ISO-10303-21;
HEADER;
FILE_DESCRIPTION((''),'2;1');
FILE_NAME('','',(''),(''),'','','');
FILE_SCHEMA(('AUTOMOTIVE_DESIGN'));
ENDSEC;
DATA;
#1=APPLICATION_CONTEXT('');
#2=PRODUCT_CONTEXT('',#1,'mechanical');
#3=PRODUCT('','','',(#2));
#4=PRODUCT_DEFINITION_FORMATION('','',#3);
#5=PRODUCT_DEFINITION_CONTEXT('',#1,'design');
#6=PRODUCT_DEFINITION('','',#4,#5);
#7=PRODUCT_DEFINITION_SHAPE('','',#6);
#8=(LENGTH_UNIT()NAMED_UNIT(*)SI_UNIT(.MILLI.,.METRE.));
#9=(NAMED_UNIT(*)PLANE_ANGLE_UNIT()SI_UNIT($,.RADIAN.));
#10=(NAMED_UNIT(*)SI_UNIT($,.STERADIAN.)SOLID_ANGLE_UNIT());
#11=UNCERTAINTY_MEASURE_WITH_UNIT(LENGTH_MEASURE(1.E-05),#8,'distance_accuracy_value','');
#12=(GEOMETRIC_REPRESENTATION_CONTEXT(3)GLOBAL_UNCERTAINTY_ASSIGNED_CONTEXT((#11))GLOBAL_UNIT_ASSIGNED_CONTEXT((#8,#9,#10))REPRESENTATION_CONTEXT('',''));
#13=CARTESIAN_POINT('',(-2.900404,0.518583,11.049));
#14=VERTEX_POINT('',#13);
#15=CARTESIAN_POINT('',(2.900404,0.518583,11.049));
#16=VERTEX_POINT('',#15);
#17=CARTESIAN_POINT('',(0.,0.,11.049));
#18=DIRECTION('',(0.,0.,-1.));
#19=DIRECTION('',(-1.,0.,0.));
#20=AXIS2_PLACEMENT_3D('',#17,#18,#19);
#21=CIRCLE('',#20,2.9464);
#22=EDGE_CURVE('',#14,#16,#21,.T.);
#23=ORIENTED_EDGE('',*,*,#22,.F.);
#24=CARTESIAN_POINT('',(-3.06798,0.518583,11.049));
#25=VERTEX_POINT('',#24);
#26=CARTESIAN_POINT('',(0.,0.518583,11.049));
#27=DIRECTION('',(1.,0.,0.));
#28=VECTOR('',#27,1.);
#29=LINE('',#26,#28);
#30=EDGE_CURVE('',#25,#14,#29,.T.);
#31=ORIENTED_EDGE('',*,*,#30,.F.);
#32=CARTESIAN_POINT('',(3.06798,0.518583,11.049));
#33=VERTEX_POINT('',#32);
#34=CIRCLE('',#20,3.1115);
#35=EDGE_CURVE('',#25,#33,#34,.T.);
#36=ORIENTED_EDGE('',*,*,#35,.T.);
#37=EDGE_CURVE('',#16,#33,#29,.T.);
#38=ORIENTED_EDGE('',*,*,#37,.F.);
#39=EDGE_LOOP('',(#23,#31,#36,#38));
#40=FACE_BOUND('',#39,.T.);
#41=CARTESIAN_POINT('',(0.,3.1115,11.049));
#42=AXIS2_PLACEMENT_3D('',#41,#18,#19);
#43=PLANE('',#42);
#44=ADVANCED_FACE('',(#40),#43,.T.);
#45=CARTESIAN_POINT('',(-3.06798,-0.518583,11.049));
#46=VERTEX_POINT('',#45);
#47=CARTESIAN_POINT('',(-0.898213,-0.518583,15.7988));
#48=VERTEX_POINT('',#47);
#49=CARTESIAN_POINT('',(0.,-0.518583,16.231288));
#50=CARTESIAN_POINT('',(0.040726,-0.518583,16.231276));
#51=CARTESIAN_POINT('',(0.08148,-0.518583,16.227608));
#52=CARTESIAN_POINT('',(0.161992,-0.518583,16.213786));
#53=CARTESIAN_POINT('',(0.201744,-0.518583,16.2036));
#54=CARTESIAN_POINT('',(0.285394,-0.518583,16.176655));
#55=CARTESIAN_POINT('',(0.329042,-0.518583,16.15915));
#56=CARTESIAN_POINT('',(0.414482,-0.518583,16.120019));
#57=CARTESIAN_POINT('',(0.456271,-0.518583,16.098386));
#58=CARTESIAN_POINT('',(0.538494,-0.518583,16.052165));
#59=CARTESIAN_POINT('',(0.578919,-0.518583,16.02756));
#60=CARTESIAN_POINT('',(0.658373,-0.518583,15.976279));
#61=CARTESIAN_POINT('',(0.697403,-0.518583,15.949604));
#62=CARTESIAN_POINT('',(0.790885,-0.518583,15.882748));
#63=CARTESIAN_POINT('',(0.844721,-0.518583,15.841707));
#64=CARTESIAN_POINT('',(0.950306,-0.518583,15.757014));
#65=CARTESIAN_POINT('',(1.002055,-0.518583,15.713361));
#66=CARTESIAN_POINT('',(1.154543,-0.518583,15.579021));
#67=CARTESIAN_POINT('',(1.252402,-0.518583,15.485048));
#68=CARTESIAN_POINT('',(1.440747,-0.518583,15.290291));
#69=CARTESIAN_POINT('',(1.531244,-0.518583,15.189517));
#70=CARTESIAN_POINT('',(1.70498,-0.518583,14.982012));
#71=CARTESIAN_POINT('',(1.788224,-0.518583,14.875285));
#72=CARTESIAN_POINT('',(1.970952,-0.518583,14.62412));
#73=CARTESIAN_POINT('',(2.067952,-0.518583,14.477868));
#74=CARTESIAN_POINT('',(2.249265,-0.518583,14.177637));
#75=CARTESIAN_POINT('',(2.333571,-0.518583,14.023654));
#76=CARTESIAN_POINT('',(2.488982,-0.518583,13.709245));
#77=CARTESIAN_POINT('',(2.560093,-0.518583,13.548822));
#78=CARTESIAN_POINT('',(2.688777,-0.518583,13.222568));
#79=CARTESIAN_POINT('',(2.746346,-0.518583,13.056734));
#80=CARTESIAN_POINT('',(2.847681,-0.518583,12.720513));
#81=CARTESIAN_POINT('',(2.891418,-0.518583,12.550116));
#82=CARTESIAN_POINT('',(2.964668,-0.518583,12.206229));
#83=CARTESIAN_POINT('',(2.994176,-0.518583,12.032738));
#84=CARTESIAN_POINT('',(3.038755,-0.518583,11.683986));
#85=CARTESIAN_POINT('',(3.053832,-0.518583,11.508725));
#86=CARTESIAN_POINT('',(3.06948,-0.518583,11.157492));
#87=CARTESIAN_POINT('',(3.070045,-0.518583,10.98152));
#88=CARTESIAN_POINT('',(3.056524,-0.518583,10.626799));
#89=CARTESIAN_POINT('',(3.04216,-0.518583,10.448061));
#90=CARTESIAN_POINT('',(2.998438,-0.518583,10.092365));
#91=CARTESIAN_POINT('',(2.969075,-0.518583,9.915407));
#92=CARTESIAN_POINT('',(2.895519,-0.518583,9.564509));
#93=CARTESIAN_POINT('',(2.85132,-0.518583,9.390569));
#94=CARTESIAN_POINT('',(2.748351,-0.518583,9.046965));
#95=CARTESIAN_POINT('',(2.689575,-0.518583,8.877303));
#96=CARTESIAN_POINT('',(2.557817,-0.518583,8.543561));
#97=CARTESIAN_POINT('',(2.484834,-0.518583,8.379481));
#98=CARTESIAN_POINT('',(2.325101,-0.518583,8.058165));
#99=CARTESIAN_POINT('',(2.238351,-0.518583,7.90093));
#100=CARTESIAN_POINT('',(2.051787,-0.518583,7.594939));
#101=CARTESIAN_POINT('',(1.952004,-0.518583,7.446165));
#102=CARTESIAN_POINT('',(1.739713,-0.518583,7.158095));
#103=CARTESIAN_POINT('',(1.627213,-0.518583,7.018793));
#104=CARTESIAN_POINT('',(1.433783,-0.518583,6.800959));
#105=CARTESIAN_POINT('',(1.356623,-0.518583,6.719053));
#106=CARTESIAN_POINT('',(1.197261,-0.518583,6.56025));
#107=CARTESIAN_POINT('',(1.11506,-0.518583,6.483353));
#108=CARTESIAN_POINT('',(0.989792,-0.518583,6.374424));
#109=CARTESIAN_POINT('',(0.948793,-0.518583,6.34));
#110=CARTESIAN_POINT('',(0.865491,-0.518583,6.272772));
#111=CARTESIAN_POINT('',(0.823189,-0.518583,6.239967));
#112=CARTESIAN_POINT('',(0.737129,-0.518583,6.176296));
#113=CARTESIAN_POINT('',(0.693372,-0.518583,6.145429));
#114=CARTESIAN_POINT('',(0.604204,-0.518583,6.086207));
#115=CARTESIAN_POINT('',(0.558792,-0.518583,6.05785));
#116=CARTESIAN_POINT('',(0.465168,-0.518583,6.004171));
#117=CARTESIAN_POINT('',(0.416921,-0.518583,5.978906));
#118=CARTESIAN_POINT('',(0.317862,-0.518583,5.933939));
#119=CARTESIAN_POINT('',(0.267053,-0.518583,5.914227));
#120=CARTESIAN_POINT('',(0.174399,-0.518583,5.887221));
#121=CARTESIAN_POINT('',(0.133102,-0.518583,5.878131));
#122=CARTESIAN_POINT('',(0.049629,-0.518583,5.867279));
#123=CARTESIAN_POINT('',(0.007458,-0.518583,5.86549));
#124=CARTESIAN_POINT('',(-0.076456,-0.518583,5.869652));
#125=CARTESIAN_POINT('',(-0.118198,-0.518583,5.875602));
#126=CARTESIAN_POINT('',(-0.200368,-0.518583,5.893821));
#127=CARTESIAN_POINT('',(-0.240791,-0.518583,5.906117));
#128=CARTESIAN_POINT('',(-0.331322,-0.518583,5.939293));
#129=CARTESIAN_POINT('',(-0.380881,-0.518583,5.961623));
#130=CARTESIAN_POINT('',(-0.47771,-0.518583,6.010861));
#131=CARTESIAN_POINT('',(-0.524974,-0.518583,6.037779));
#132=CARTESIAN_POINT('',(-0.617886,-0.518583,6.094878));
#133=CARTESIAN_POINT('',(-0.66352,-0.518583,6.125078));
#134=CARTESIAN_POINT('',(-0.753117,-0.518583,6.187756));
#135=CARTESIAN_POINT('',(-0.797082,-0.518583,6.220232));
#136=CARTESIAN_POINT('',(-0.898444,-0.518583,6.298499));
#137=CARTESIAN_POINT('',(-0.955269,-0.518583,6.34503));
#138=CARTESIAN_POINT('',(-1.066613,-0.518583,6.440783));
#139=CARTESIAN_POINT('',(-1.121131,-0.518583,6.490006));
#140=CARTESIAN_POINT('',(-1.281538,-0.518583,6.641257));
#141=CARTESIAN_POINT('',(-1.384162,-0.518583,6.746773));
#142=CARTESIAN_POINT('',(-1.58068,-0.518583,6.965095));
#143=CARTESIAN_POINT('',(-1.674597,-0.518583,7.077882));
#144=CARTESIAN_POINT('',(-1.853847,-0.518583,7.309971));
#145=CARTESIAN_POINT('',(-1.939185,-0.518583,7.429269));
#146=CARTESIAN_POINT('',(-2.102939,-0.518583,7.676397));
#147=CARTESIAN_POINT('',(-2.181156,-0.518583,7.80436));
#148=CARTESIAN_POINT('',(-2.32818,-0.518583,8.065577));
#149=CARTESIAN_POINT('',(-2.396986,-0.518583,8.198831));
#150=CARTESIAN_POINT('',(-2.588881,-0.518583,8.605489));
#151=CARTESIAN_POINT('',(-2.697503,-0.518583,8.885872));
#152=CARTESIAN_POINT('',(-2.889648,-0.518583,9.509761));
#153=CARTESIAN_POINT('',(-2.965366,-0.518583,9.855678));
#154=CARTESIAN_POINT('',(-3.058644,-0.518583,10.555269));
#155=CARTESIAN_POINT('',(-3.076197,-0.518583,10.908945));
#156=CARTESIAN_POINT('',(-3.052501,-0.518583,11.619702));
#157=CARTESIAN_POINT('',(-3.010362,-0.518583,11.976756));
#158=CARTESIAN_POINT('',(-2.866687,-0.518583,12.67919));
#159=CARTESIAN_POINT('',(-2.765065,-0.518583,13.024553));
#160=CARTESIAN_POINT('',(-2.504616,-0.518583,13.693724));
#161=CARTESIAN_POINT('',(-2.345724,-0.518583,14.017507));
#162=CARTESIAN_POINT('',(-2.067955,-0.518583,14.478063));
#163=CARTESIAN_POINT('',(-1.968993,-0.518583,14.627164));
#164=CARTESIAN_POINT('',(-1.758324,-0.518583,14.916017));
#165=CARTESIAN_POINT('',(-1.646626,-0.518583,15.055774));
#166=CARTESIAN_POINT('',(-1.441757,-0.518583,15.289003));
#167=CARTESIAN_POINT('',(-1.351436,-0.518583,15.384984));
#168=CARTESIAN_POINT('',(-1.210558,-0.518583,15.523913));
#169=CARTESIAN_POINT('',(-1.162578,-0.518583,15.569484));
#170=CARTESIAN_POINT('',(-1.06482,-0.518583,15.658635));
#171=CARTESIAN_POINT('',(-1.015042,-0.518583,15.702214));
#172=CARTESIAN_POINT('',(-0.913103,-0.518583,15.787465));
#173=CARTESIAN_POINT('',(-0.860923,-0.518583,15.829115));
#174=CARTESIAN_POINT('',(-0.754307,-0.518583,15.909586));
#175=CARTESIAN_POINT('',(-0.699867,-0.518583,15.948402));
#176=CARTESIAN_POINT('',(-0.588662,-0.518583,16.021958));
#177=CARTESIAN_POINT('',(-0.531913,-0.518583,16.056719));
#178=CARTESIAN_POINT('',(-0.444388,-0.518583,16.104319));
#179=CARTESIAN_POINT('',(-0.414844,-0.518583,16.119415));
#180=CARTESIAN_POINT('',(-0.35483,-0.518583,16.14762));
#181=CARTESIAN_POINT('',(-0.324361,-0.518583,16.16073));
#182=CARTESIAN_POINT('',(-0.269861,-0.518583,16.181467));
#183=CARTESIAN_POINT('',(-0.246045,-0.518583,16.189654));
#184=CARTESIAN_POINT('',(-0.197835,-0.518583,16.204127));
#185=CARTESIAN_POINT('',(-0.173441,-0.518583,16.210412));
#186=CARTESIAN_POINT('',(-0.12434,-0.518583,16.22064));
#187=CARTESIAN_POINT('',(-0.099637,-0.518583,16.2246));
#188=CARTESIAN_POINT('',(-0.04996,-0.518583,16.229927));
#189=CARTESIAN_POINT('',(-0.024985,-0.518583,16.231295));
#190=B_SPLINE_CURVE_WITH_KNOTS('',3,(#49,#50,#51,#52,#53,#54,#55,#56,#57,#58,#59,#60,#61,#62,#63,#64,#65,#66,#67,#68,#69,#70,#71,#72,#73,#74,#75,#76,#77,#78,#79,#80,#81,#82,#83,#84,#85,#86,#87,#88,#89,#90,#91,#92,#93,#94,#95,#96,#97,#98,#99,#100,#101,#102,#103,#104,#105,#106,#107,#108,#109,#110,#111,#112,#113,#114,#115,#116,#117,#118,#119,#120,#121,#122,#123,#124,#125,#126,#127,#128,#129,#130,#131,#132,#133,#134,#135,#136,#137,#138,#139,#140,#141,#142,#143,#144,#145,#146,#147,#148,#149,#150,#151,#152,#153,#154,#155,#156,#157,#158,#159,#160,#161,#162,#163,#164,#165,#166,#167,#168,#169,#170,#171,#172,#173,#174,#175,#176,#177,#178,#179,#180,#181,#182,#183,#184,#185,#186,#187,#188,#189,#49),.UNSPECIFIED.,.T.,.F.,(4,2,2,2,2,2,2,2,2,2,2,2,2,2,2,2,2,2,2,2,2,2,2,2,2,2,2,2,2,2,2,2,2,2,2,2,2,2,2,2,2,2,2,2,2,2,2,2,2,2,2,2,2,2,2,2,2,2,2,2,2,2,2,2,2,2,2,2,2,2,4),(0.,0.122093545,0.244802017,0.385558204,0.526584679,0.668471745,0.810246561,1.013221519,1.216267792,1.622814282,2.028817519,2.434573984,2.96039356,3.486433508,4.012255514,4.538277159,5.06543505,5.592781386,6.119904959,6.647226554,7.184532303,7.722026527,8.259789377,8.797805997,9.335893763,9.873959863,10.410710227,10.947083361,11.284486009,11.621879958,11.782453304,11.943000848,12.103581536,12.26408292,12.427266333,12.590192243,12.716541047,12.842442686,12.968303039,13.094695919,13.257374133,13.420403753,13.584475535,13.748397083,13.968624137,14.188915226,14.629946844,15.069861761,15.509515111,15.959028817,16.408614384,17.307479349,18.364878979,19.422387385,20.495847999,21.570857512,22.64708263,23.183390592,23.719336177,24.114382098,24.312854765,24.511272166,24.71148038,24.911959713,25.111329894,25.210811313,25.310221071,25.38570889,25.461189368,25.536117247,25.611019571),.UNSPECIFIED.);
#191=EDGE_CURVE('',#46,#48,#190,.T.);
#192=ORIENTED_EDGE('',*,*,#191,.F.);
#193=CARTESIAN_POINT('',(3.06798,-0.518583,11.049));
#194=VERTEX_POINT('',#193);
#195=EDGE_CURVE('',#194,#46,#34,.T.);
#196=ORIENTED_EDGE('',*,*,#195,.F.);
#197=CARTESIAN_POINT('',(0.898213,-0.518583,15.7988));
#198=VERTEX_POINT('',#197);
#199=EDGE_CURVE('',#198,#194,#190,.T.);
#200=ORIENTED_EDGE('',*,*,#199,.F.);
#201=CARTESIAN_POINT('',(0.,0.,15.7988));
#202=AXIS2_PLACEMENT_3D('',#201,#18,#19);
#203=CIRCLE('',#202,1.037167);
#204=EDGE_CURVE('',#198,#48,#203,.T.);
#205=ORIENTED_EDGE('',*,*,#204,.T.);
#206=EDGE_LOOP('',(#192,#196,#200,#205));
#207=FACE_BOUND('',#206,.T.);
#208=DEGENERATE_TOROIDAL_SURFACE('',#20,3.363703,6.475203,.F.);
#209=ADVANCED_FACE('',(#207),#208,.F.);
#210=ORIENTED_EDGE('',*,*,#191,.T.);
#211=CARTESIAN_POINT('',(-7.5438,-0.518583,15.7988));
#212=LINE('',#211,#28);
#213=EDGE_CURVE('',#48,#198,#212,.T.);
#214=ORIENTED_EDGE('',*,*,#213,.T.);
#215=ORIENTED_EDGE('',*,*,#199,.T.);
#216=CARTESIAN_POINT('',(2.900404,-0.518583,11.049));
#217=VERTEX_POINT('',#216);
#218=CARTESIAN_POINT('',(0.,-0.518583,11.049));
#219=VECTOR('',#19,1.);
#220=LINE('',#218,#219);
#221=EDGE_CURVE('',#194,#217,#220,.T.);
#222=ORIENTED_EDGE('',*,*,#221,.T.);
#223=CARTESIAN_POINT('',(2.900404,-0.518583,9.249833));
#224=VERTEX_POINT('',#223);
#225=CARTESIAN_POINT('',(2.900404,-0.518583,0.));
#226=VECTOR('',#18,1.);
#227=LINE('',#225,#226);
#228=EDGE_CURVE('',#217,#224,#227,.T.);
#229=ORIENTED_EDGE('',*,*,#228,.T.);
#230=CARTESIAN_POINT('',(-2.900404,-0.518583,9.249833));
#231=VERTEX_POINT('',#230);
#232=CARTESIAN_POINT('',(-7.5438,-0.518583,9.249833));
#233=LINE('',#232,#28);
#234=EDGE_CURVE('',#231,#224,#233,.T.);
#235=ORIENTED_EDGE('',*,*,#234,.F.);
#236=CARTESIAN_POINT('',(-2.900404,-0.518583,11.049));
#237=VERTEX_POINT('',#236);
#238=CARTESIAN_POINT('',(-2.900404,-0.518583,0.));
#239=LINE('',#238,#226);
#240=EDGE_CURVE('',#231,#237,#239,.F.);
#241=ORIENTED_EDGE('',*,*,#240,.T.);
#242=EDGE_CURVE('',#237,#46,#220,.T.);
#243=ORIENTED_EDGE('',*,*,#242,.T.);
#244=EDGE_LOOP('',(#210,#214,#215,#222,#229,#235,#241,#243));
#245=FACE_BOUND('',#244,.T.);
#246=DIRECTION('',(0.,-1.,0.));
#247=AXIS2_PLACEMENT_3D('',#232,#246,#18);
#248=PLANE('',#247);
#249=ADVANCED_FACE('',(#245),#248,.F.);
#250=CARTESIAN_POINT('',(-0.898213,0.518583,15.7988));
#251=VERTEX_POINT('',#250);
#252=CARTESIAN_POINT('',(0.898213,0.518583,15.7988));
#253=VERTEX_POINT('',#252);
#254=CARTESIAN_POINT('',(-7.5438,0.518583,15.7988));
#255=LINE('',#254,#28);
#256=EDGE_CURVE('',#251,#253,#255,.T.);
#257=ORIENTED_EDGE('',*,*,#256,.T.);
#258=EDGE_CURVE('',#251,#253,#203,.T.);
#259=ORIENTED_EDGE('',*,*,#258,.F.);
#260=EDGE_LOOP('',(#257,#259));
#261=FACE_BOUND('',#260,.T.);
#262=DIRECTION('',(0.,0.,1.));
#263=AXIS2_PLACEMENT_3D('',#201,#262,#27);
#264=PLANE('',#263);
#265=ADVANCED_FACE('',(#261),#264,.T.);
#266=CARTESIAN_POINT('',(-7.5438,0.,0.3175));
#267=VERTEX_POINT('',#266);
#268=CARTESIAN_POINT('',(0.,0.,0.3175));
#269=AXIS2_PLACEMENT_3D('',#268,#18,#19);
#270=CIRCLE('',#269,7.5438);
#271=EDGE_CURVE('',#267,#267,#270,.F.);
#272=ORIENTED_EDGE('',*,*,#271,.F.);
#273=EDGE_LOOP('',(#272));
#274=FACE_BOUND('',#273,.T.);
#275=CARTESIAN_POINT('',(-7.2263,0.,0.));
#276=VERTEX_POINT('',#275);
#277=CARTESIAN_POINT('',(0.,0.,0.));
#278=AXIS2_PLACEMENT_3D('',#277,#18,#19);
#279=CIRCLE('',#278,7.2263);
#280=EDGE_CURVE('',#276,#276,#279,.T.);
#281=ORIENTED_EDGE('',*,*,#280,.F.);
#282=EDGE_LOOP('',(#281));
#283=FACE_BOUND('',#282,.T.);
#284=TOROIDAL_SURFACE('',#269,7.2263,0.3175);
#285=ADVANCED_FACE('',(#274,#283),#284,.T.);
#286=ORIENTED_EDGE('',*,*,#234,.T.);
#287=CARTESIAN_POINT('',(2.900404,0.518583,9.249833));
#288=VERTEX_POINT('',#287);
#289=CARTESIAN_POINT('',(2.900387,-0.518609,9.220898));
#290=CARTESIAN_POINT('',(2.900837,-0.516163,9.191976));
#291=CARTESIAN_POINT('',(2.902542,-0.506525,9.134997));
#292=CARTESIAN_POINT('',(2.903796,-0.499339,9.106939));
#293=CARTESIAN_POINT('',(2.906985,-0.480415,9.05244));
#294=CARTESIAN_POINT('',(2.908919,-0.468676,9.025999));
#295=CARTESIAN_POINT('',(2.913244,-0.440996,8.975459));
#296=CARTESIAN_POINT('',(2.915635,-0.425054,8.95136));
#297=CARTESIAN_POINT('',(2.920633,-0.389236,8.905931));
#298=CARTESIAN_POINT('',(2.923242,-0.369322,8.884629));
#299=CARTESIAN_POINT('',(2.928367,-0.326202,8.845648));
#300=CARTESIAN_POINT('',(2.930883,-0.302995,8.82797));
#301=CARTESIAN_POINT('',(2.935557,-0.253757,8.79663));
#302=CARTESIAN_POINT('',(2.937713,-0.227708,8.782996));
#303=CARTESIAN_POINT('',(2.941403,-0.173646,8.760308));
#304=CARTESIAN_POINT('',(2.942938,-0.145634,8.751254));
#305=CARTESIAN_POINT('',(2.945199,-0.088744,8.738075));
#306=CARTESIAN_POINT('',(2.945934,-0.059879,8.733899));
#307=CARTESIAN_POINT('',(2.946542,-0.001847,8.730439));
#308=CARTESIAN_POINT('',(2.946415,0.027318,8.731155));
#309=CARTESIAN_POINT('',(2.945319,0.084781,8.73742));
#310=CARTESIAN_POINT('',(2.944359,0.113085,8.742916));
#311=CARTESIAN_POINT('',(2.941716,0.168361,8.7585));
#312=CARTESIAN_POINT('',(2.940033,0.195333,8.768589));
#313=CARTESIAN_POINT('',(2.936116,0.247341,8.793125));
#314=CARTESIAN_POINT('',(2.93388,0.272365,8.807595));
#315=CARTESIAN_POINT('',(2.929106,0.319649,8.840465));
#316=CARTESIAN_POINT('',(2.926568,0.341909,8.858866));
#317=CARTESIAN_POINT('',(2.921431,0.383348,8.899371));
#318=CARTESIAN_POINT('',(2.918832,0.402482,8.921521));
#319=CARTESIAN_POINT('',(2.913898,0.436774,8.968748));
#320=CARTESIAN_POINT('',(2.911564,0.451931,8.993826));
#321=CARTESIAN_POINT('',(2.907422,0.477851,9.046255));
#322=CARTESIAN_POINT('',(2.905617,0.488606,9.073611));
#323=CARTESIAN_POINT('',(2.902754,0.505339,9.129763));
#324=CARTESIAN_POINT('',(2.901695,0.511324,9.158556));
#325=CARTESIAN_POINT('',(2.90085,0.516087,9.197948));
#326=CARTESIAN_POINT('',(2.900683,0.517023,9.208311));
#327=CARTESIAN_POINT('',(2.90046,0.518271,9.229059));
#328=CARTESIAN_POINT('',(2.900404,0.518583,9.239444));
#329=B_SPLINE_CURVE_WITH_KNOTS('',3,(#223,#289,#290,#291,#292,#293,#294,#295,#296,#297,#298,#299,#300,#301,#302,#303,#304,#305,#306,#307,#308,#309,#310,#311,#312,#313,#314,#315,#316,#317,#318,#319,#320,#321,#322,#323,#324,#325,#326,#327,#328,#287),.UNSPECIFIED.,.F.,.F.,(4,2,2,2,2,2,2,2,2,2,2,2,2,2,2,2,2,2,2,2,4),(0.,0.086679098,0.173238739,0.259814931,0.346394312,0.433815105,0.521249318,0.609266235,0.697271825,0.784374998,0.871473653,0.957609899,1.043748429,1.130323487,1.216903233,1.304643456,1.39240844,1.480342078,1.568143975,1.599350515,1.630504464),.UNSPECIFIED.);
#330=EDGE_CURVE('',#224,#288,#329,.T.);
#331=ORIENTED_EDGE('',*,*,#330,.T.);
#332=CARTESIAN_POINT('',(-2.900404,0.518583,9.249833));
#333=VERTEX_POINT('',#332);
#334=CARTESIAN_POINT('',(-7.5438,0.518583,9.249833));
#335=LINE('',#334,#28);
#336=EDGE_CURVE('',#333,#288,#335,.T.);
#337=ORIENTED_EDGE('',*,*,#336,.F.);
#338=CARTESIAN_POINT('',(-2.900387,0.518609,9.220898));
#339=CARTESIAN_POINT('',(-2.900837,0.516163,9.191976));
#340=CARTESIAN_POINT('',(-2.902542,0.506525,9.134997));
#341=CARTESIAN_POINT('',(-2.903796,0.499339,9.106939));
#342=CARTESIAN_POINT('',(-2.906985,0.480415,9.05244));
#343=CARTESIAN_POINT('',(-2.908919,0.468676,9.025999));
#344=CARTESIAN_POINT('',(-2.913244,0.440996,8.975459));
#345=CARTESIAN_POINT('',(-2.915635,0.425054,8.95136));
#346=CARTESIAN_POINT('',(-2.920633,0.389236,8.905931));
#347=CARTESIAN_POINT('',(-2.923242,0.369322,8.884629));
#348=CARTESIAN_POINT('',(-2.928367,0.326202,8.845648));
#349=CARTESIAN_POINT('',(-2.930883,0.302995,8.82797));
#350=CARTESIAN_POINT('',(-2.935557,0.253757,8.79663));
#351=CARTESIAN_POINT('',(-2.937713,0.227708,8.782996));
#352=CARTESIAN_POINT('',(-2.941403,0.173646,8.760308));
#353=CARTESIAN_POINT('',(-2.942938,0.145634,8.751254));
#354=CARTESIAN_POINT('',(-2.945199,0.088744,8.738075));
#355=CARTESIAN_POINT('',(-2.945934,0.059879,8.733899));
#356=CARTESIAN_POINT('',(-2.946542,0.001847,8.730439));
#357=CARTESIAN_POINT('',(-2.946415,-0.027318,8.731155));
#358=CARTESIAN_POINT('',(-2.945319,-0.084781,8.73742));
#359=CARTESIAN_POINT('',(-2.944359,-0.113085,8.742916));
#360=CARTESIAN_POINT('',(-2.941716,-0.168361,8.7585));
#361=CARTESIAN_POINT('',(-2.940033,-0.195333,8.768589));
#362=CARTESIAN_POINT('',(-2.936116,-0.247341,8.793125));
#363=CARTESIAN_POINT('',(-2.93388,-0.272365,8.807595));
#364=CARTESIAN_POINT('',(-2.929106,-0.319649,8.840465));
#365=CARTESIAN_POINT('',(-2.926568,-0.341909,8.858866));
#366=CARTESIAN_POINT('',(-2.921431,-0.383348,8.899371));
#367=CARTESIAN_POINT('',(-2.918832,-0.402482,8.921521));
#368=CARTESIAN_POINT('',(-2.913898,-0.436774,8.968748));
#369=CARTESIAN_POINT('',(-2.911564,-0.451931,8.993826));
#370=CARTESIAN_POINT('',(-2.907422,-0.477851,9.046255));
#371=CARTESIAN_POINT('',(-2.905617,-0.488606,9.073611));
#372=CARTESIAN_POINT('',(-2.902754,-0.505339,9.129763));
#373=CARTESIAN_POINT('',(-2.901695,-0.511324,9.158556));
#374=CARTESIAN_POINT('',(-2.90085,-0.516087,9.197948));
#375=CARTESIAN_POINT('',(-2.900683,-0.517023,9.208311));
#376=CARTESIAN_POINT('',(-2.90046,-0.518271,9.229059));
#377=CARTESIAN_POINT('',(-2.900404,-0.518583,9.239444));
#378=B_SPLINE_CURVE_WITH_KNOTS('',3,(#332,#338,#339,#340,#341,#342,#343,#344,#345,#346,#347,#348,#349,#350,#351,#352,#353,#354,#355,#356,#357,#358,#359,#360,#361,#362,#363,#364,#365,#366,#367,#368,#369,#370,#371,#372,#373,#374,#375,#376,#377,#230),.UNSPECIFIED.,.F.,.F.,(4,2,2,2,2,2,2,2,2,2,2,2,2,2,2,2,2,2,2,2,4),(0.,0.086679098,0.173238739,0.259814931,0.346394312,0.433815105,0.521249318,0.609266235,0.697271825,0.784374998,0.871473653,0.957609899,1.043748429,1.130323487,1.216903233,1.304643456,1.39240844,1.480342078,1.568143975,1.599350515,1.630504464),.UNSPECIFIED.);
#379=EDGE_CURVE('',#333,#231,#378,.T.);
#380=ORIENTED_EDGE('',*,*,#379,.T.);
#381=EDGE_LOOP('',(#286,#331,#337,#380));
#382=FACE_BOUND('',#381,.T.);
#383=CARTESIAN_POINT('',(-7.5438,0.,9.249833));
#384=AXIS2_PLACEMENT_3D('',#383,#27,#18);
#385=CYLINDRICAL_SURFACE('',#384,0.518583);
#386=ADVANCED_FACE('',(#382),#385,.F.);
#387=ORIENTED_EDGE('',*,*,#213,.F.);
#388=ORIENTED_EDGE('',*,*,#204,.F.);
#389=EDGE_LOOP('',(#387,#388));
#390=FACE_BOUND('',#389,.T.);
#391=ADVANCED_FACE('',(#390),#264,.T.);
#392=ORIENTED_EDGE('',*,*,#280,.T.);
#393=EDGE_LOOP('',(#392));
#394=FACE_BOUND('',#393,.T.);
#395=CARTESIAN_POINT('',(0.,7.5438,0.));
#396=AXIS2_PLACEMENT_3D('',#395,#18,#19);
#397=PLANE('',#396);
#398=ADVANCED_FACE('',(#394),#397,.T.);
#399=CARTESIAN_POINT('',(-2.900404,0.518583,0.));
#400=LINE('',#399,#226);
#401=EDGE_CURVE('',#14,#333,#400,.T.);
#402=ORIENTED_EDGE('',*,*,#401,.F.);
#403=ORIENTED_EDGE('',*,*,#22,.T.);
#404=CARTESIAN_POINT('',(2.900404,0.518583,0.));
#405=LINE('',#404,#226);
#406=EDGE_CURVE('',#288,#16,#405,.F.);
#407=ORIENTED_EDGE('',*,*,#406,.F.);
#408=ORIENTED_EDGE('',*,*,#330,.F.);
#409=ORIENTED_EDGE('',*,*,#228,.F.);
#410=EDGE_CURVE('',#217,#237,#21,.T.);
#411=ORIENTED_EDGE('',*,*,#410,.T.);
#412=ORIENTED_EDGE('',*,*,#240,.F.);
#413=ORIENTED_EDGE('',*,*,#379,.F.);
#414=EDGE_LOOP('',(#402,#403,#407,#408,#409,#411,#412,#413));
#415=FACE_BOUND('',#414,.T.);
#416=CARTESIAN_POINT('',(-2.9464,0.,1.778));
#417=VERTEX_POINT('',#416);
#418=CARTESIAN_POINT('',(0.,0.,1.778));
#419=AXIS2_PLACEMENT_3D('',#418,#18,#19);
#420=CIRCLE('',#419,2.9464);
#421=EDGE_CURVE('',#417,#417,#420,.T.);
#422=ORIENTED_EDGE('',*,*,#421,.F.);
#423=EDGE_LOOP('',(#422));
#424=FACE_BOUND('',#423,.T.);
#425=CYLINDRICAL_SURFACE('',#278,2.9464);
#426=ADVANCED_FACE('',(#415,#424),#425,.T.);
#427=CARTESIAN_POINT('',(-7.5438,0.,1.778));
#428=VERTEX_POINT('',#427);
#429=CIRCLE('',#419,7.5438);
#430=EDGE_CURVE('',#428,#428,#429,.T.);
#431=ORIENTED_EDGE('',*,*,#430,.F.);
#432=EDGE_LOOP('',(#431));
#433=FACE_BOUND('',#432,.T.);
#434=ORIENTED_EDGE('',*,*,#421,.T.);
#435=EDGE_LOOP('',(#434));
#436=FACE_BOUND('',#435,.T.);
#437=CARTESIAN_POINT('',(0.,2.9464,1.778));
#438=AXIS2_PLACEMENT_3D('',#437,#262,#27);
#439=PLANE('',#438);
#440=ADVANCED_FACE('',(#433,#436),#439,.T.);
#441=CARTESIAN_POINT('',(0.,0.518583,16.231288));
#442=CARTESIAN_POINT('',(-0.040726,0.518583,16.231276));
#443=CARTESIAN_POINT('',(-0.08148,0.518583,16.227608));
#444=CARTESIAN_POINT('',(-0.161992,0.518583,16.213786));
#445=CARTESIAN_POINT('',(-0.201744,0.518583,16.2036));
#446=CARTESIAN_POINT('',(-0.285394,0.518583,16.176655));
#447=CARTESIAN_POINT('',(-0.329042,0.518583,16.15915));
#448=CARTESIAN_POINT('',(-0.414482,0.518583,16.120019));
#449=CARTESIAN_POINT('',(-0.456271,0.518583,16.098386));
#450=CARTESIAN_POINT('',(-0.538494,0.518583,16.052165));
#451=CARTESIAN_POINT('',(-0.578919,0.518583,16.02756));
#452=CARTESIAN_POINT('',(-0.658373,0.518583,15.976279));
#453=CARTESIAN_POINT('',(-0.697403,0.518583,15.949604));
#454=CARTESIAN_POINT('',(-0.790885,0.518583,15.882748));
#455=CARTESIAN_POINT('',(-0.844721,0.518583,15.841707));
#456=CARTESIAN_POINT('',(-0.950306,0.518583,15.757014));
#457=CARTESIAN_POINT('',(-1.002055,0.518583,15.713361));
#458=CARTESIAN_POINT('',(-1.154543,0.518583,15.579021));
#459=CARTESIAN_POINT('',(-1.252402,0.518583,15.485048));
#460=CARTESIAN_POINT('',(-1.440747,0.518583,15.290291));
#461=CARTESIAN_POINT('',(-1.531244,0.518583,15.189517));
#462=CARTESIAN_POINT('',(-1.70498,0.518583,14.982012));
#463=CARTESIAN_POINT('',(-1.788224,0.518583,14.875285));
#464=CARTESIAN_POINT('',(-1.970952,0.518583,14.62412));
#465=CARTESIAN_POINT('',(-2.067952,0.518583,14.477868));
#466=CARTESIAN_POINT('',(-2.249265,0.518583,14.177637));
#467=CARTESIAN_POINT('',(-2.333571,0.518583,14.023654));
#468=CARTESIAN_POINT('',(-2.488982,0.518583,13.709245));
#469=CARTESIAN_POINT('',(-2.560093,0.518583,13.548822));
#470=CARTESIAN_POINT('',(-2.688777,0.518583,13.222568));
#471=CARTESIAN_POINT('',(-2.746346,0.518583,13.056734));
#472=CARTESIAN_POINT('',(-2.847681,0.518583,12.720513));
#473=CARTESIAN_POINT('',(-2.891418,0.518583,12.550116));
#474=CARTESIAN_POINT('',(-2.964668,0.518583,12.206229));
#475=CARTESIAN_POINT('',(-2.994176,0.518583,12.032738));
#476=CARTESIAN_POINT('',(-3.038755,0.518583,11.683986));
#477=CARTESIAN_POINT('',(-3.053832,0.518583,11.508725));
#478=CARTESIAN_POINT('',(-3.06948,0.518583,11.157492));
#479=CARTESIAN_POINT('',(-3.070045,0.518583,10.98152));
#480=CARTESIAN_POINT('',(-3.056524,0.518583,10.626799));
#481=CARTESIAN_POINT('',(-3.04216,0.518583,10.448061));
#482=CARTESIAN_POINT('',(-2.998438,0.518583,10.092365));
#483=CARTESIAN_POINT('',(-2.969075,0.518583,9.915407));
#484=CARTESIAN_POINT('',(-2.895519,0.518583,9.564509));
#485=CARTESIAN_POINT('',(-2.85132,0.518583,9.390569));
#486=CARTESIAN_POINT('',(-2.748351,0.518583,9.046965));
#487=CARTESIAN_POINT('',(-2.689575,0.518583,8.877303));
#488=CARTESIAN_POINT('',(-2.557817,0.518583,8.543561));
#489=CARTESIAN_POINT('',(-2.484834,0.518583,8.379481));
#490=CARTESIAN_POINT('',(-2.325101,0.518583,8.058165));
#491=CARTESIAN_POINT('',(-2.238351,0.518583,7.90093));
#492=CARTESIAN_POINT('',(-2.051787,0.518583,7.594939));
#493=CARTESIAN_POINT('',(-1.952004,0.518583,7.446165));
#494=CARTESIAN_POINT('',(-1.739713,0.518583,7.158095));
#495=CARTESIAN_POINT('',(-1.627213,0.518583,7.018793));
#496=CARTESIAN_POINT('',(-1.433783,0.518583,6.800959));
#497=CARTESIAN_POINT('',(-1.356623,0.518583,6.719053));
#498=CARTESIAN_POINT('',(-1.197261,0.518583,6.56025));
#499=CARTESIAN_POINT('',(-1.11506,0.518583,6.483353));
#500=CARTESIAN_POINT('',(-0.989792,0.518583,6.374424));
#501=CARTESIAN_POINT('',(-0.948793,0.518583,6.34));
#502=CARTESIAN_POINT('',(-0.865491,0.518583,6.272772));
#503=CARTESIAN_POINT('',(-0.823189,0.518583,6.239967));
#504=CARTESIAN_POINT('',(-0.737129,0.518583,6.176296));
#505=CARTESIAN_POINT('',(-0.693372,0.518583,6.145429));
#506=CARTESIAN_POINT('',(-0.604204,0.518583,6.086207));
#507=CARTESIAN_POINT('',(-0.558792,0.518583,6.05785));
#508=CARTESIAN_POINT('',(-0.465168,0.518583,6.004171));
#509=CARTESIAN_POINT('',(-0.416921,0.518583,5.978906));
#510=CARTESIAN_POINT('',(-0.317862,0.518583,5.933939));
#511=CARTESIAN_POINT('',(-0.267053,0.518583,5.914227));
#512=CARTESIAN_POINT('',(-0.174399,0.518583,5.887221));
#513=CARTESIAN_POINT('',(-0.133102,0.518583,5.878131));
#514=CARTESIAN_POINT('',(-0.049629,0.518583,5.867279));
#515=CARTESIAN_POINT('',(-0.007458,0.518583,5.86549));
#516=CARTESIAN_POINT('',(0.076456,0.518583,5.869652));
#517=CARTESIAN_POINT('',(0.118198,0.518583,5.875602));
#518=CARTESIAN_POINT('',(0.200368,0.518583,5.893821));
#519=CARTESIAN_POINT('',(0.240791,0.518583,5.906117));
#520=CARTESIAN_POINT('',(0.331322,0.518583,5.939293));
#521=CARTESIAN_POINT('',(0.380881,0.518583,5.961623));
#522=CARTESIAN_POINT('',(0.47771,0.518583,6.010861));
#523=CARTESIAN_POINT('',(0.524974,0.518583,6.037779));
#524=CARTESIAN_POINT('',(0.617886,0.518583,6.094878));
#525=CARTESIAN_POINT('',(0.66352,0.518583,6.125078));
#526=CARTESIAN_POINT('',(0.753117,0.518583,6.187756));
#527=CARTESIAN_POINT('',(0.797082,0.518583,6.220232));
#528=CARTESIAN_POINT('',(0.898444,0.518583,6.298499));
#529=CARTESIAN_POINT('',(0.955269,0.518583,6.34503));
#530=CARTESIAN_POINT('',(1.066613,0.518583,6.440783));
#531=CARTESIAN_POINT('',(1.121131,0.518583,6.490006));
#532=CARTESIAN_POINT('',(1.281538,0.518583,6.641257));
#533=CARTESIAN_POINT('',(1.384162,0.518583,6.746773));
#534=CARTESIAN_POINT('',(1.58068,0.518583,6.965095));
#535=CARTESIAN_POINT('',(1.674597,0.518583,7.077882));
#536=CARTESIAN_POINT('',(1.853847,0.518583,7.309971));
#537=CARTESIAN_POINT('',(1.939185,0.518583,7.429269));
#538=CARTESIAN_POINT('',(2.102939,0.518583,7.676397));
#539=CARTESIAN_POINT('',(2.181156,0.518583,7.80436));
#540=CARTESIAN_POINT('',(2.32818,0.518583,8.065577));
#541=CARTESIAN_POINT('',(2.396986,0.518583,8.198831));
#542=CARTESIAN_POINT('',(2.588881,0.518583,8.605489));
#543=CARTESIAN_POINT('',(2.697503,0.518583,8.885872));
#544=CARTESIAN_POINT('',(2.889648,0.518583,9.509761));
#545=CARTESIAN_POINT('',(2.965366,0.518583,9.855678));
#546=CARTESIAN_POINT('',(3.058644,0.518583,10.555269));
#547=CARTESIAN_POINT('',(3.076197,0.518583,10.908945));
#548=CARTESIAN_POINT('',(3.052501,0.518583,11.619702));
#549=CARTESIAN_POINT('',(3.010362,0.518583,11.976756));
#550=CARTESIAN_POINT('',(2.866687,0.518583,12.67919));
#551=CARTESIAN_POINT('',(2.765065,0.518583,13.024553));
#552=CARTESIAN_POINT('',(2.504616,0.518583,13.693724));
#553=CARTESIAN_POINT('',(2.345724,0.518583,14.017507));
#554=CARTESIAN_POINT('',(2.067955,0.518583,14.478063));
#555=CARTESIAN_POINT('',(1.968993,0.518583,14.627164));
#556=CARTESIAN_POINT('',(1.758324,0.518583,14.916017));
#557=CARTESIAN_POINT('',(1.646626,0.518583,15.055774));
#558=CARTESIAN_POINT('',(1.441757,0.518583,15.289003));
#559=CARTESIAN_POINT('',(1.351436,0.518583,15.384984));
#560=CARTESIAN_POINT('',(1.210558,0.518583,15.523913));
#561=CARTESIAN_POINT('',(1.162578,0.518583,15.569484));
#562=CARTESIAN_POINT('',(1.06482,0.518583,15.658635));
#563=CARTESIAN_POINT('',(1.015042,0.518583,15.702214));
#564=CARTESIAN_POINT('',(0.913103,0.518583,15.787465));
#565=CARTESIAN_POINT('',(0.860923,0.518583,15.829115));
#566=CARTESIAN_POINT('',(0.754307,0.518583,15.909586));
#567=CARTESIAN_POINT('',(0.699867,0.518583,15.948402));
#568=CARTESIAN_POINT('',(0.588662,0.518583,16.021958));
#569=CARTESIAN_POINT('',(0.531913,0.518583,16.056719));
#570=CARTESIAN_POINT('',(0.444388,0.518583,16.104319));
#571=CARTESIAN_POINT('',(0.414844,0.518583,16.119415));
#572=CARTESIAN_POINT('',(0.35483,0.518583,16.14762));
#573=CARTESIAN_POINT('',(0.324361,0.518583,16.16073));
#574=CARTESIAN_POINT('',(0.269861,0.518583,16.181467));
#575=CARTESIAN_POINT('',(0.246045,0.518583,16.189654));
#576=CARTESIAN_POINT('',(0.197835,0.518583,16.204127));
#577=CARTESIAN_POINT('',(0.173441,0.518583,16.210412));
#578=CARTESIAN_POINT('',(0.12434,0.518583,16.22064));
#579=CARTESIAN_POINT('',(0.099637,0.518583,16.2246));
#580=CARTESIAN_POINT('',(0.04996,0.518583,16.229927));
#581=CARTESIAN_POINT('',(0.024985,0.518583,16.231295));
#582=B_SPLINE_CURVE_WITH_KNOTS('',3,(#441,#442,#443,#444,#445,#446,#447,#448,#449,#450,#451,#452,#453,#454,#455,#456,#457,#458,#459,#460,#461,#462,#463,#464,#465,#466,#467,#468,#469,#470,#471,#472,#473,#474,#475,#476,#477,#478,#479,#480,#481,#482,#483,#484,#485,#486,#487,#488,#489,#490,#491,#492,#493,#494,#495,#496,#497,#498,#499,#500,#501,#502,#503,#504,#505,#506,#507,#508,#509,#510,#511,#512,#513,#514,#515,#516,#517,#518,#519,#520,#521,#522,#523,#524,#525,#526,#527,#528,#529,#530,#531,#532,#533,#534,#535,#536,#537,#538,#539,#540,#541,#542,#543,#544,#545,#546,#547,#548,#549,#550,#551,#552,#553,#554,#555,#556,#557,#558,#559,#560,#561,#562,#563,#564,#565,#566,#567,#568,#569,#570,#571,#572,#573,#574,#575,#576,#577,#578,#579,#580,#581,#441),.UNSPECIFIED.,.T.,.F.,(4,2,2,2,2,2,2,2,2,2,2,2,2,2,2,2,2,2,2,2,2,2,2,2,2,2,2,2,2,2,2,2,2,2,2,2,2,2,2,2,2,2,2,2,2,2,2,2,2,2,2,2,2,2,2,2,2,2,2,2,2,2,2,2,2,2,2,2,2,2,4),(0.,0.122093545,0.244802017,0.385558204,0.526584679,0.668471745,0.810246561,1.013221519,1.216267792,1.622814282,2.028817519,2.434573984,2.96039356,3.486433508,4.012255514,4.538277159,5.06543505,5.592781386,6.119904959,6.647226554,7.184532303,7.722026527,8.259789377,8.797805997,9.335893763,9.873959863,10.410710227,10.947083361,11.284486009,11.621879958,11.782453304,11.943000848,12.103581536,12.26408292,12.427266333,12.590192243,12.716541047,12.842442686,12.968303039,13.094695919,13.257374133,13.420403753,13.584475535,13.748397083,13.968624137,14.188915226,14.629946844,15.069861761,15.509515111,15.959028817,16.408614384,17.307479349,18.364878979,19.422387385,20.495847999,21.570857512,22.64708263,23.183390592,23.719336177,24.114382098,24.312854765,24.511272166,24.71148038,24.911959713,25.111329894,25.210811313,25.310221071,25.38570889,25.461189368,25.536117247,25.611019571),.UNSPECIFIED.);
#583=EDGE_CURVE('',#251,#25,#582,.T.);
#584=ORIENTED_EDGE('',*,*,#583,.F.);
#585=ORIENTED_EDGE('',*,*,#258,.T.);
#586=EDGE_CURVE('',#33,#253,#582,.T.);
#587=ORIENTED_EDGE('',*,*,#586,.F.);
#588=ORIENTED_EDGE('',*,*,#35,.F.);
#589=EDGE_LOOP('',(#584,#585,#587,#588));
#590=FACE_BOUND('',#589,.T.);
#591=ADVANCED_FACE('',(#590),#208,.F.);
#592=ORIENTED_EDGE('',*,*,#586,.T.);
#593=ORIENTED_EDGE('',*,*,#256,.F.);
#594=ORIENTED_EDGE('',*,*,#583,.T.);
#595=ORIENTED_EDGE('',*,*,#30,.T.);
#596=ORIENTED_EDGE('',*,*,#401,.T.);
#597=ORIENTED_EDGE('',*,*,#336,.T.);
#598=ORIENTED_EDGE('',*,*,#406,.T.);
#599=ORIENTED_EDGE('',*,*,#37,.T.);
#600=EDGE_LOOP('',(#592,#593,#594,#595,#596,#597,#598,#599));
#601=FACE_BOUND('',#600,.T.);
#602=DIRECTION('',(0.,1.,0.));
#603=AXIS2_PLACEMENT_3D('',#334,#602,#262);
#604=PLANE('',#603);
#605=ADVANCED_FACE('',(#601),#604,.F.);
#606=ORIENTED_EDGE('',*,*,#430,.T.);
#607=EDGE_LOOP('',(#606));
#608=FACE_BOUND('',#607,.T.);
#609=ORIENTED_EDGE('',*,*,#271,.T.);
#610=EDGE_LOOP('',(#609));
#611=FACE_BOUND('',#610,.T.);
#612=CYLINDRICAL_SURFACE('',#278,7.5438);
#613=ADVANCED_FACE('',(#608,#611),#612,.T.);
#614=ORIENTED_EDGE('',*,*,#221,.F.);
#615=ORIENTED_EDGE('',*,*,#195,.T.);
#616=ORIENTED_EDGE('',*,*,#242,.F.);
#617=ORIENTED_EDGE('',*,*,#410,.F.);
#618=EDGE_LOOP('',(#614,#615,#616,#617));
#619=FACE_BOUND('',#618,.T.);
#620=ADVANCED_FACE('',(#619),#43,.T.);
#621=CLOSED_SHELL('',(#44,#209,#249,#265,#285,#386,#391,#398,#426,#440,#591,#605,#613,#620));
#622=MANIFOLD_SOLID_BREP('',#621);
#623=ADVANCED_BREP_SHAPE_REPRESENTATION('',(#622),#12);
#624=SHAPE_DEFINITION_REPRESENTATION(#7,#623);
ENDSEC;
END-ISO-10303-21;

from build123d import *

# Parameters (mm, degrees)
SLOT_DEPTH      = 20.063575779
SLOT_DEPTH_BACK = 20.063575779
FILLET1_R       = 0.3175


with BuildPart() as part:
    # Sketch2 → Revolve1 (revolve)
    with BuildSketch(Plane(origin=(0, 0, 0), x_dir=(0, 0, -1), z_dir=(1, 0, 0)), mode=Mode.PRIVATE) as revolve1_sk:
        with BuildLine():
            Line((0, 0), (-15.7988, 0))
            Line((-15.7988, 0), (-15.7988, 1.037166667))
            ThreePointArc((-15.7988, 1.037166667), (-13.640498544, 2.570299796), (-11.049, 3.1115))
            Line((-11.049, 3.1115), (-11.049, 2.9464))
            Line((-11.049, 2.9464), (-1.778, 2.9464))
            Line((-1.778, 2.9464), (-1.778, 7.5438))
            Line((-1.778, 7.5438), (0, 7.5438))
            Line((0, 7.5438), (0, 0))
        make_face()
    revolve(revolve1_sk.sketch.rotate(Axis((0, 0, 0), (0, 0, 1)), 90), axis=Axis((0, 0, 0), (0, 0, 1)))

    # Sketch3 → Slot (cut, two sides: drawn at the far end of the back side and taken through both)
    with BuildSketch(Plane(origin=(0, 0, 0), x_dir=(0, 0, -1), z_dir=(1, 0, 0)).offset(-SLOT_DEPTH_BACK)):
        with BuildLine():
            Line((-9.249833333, 0.518583333), (-15.7988, 0.518583333))
            Line((-15.7988, 0.518583333), (-15.7988, -0.518583333))
            Line((-15.7988, -0.518583333), (-9.249833333, -0.518583333))
            ThreePointArc((-9.249833333, -0.518583333), (-8.73125, 0), (-9.249833333, 0.518583333))
        make_face()
    extrude(amount=SLOT_DEPTH + SLOT_DEPTH_BACK, mode=Mode.SUBTRACT)

    # Fillet1
    fillet1_edges = [part.edges().sort_by_distance(p)[0] for p in [
        (7.5438, 0, 0),
    ]]
    fillet(fillet1_edges, radius=FILLET1_R)


solid = part.part
